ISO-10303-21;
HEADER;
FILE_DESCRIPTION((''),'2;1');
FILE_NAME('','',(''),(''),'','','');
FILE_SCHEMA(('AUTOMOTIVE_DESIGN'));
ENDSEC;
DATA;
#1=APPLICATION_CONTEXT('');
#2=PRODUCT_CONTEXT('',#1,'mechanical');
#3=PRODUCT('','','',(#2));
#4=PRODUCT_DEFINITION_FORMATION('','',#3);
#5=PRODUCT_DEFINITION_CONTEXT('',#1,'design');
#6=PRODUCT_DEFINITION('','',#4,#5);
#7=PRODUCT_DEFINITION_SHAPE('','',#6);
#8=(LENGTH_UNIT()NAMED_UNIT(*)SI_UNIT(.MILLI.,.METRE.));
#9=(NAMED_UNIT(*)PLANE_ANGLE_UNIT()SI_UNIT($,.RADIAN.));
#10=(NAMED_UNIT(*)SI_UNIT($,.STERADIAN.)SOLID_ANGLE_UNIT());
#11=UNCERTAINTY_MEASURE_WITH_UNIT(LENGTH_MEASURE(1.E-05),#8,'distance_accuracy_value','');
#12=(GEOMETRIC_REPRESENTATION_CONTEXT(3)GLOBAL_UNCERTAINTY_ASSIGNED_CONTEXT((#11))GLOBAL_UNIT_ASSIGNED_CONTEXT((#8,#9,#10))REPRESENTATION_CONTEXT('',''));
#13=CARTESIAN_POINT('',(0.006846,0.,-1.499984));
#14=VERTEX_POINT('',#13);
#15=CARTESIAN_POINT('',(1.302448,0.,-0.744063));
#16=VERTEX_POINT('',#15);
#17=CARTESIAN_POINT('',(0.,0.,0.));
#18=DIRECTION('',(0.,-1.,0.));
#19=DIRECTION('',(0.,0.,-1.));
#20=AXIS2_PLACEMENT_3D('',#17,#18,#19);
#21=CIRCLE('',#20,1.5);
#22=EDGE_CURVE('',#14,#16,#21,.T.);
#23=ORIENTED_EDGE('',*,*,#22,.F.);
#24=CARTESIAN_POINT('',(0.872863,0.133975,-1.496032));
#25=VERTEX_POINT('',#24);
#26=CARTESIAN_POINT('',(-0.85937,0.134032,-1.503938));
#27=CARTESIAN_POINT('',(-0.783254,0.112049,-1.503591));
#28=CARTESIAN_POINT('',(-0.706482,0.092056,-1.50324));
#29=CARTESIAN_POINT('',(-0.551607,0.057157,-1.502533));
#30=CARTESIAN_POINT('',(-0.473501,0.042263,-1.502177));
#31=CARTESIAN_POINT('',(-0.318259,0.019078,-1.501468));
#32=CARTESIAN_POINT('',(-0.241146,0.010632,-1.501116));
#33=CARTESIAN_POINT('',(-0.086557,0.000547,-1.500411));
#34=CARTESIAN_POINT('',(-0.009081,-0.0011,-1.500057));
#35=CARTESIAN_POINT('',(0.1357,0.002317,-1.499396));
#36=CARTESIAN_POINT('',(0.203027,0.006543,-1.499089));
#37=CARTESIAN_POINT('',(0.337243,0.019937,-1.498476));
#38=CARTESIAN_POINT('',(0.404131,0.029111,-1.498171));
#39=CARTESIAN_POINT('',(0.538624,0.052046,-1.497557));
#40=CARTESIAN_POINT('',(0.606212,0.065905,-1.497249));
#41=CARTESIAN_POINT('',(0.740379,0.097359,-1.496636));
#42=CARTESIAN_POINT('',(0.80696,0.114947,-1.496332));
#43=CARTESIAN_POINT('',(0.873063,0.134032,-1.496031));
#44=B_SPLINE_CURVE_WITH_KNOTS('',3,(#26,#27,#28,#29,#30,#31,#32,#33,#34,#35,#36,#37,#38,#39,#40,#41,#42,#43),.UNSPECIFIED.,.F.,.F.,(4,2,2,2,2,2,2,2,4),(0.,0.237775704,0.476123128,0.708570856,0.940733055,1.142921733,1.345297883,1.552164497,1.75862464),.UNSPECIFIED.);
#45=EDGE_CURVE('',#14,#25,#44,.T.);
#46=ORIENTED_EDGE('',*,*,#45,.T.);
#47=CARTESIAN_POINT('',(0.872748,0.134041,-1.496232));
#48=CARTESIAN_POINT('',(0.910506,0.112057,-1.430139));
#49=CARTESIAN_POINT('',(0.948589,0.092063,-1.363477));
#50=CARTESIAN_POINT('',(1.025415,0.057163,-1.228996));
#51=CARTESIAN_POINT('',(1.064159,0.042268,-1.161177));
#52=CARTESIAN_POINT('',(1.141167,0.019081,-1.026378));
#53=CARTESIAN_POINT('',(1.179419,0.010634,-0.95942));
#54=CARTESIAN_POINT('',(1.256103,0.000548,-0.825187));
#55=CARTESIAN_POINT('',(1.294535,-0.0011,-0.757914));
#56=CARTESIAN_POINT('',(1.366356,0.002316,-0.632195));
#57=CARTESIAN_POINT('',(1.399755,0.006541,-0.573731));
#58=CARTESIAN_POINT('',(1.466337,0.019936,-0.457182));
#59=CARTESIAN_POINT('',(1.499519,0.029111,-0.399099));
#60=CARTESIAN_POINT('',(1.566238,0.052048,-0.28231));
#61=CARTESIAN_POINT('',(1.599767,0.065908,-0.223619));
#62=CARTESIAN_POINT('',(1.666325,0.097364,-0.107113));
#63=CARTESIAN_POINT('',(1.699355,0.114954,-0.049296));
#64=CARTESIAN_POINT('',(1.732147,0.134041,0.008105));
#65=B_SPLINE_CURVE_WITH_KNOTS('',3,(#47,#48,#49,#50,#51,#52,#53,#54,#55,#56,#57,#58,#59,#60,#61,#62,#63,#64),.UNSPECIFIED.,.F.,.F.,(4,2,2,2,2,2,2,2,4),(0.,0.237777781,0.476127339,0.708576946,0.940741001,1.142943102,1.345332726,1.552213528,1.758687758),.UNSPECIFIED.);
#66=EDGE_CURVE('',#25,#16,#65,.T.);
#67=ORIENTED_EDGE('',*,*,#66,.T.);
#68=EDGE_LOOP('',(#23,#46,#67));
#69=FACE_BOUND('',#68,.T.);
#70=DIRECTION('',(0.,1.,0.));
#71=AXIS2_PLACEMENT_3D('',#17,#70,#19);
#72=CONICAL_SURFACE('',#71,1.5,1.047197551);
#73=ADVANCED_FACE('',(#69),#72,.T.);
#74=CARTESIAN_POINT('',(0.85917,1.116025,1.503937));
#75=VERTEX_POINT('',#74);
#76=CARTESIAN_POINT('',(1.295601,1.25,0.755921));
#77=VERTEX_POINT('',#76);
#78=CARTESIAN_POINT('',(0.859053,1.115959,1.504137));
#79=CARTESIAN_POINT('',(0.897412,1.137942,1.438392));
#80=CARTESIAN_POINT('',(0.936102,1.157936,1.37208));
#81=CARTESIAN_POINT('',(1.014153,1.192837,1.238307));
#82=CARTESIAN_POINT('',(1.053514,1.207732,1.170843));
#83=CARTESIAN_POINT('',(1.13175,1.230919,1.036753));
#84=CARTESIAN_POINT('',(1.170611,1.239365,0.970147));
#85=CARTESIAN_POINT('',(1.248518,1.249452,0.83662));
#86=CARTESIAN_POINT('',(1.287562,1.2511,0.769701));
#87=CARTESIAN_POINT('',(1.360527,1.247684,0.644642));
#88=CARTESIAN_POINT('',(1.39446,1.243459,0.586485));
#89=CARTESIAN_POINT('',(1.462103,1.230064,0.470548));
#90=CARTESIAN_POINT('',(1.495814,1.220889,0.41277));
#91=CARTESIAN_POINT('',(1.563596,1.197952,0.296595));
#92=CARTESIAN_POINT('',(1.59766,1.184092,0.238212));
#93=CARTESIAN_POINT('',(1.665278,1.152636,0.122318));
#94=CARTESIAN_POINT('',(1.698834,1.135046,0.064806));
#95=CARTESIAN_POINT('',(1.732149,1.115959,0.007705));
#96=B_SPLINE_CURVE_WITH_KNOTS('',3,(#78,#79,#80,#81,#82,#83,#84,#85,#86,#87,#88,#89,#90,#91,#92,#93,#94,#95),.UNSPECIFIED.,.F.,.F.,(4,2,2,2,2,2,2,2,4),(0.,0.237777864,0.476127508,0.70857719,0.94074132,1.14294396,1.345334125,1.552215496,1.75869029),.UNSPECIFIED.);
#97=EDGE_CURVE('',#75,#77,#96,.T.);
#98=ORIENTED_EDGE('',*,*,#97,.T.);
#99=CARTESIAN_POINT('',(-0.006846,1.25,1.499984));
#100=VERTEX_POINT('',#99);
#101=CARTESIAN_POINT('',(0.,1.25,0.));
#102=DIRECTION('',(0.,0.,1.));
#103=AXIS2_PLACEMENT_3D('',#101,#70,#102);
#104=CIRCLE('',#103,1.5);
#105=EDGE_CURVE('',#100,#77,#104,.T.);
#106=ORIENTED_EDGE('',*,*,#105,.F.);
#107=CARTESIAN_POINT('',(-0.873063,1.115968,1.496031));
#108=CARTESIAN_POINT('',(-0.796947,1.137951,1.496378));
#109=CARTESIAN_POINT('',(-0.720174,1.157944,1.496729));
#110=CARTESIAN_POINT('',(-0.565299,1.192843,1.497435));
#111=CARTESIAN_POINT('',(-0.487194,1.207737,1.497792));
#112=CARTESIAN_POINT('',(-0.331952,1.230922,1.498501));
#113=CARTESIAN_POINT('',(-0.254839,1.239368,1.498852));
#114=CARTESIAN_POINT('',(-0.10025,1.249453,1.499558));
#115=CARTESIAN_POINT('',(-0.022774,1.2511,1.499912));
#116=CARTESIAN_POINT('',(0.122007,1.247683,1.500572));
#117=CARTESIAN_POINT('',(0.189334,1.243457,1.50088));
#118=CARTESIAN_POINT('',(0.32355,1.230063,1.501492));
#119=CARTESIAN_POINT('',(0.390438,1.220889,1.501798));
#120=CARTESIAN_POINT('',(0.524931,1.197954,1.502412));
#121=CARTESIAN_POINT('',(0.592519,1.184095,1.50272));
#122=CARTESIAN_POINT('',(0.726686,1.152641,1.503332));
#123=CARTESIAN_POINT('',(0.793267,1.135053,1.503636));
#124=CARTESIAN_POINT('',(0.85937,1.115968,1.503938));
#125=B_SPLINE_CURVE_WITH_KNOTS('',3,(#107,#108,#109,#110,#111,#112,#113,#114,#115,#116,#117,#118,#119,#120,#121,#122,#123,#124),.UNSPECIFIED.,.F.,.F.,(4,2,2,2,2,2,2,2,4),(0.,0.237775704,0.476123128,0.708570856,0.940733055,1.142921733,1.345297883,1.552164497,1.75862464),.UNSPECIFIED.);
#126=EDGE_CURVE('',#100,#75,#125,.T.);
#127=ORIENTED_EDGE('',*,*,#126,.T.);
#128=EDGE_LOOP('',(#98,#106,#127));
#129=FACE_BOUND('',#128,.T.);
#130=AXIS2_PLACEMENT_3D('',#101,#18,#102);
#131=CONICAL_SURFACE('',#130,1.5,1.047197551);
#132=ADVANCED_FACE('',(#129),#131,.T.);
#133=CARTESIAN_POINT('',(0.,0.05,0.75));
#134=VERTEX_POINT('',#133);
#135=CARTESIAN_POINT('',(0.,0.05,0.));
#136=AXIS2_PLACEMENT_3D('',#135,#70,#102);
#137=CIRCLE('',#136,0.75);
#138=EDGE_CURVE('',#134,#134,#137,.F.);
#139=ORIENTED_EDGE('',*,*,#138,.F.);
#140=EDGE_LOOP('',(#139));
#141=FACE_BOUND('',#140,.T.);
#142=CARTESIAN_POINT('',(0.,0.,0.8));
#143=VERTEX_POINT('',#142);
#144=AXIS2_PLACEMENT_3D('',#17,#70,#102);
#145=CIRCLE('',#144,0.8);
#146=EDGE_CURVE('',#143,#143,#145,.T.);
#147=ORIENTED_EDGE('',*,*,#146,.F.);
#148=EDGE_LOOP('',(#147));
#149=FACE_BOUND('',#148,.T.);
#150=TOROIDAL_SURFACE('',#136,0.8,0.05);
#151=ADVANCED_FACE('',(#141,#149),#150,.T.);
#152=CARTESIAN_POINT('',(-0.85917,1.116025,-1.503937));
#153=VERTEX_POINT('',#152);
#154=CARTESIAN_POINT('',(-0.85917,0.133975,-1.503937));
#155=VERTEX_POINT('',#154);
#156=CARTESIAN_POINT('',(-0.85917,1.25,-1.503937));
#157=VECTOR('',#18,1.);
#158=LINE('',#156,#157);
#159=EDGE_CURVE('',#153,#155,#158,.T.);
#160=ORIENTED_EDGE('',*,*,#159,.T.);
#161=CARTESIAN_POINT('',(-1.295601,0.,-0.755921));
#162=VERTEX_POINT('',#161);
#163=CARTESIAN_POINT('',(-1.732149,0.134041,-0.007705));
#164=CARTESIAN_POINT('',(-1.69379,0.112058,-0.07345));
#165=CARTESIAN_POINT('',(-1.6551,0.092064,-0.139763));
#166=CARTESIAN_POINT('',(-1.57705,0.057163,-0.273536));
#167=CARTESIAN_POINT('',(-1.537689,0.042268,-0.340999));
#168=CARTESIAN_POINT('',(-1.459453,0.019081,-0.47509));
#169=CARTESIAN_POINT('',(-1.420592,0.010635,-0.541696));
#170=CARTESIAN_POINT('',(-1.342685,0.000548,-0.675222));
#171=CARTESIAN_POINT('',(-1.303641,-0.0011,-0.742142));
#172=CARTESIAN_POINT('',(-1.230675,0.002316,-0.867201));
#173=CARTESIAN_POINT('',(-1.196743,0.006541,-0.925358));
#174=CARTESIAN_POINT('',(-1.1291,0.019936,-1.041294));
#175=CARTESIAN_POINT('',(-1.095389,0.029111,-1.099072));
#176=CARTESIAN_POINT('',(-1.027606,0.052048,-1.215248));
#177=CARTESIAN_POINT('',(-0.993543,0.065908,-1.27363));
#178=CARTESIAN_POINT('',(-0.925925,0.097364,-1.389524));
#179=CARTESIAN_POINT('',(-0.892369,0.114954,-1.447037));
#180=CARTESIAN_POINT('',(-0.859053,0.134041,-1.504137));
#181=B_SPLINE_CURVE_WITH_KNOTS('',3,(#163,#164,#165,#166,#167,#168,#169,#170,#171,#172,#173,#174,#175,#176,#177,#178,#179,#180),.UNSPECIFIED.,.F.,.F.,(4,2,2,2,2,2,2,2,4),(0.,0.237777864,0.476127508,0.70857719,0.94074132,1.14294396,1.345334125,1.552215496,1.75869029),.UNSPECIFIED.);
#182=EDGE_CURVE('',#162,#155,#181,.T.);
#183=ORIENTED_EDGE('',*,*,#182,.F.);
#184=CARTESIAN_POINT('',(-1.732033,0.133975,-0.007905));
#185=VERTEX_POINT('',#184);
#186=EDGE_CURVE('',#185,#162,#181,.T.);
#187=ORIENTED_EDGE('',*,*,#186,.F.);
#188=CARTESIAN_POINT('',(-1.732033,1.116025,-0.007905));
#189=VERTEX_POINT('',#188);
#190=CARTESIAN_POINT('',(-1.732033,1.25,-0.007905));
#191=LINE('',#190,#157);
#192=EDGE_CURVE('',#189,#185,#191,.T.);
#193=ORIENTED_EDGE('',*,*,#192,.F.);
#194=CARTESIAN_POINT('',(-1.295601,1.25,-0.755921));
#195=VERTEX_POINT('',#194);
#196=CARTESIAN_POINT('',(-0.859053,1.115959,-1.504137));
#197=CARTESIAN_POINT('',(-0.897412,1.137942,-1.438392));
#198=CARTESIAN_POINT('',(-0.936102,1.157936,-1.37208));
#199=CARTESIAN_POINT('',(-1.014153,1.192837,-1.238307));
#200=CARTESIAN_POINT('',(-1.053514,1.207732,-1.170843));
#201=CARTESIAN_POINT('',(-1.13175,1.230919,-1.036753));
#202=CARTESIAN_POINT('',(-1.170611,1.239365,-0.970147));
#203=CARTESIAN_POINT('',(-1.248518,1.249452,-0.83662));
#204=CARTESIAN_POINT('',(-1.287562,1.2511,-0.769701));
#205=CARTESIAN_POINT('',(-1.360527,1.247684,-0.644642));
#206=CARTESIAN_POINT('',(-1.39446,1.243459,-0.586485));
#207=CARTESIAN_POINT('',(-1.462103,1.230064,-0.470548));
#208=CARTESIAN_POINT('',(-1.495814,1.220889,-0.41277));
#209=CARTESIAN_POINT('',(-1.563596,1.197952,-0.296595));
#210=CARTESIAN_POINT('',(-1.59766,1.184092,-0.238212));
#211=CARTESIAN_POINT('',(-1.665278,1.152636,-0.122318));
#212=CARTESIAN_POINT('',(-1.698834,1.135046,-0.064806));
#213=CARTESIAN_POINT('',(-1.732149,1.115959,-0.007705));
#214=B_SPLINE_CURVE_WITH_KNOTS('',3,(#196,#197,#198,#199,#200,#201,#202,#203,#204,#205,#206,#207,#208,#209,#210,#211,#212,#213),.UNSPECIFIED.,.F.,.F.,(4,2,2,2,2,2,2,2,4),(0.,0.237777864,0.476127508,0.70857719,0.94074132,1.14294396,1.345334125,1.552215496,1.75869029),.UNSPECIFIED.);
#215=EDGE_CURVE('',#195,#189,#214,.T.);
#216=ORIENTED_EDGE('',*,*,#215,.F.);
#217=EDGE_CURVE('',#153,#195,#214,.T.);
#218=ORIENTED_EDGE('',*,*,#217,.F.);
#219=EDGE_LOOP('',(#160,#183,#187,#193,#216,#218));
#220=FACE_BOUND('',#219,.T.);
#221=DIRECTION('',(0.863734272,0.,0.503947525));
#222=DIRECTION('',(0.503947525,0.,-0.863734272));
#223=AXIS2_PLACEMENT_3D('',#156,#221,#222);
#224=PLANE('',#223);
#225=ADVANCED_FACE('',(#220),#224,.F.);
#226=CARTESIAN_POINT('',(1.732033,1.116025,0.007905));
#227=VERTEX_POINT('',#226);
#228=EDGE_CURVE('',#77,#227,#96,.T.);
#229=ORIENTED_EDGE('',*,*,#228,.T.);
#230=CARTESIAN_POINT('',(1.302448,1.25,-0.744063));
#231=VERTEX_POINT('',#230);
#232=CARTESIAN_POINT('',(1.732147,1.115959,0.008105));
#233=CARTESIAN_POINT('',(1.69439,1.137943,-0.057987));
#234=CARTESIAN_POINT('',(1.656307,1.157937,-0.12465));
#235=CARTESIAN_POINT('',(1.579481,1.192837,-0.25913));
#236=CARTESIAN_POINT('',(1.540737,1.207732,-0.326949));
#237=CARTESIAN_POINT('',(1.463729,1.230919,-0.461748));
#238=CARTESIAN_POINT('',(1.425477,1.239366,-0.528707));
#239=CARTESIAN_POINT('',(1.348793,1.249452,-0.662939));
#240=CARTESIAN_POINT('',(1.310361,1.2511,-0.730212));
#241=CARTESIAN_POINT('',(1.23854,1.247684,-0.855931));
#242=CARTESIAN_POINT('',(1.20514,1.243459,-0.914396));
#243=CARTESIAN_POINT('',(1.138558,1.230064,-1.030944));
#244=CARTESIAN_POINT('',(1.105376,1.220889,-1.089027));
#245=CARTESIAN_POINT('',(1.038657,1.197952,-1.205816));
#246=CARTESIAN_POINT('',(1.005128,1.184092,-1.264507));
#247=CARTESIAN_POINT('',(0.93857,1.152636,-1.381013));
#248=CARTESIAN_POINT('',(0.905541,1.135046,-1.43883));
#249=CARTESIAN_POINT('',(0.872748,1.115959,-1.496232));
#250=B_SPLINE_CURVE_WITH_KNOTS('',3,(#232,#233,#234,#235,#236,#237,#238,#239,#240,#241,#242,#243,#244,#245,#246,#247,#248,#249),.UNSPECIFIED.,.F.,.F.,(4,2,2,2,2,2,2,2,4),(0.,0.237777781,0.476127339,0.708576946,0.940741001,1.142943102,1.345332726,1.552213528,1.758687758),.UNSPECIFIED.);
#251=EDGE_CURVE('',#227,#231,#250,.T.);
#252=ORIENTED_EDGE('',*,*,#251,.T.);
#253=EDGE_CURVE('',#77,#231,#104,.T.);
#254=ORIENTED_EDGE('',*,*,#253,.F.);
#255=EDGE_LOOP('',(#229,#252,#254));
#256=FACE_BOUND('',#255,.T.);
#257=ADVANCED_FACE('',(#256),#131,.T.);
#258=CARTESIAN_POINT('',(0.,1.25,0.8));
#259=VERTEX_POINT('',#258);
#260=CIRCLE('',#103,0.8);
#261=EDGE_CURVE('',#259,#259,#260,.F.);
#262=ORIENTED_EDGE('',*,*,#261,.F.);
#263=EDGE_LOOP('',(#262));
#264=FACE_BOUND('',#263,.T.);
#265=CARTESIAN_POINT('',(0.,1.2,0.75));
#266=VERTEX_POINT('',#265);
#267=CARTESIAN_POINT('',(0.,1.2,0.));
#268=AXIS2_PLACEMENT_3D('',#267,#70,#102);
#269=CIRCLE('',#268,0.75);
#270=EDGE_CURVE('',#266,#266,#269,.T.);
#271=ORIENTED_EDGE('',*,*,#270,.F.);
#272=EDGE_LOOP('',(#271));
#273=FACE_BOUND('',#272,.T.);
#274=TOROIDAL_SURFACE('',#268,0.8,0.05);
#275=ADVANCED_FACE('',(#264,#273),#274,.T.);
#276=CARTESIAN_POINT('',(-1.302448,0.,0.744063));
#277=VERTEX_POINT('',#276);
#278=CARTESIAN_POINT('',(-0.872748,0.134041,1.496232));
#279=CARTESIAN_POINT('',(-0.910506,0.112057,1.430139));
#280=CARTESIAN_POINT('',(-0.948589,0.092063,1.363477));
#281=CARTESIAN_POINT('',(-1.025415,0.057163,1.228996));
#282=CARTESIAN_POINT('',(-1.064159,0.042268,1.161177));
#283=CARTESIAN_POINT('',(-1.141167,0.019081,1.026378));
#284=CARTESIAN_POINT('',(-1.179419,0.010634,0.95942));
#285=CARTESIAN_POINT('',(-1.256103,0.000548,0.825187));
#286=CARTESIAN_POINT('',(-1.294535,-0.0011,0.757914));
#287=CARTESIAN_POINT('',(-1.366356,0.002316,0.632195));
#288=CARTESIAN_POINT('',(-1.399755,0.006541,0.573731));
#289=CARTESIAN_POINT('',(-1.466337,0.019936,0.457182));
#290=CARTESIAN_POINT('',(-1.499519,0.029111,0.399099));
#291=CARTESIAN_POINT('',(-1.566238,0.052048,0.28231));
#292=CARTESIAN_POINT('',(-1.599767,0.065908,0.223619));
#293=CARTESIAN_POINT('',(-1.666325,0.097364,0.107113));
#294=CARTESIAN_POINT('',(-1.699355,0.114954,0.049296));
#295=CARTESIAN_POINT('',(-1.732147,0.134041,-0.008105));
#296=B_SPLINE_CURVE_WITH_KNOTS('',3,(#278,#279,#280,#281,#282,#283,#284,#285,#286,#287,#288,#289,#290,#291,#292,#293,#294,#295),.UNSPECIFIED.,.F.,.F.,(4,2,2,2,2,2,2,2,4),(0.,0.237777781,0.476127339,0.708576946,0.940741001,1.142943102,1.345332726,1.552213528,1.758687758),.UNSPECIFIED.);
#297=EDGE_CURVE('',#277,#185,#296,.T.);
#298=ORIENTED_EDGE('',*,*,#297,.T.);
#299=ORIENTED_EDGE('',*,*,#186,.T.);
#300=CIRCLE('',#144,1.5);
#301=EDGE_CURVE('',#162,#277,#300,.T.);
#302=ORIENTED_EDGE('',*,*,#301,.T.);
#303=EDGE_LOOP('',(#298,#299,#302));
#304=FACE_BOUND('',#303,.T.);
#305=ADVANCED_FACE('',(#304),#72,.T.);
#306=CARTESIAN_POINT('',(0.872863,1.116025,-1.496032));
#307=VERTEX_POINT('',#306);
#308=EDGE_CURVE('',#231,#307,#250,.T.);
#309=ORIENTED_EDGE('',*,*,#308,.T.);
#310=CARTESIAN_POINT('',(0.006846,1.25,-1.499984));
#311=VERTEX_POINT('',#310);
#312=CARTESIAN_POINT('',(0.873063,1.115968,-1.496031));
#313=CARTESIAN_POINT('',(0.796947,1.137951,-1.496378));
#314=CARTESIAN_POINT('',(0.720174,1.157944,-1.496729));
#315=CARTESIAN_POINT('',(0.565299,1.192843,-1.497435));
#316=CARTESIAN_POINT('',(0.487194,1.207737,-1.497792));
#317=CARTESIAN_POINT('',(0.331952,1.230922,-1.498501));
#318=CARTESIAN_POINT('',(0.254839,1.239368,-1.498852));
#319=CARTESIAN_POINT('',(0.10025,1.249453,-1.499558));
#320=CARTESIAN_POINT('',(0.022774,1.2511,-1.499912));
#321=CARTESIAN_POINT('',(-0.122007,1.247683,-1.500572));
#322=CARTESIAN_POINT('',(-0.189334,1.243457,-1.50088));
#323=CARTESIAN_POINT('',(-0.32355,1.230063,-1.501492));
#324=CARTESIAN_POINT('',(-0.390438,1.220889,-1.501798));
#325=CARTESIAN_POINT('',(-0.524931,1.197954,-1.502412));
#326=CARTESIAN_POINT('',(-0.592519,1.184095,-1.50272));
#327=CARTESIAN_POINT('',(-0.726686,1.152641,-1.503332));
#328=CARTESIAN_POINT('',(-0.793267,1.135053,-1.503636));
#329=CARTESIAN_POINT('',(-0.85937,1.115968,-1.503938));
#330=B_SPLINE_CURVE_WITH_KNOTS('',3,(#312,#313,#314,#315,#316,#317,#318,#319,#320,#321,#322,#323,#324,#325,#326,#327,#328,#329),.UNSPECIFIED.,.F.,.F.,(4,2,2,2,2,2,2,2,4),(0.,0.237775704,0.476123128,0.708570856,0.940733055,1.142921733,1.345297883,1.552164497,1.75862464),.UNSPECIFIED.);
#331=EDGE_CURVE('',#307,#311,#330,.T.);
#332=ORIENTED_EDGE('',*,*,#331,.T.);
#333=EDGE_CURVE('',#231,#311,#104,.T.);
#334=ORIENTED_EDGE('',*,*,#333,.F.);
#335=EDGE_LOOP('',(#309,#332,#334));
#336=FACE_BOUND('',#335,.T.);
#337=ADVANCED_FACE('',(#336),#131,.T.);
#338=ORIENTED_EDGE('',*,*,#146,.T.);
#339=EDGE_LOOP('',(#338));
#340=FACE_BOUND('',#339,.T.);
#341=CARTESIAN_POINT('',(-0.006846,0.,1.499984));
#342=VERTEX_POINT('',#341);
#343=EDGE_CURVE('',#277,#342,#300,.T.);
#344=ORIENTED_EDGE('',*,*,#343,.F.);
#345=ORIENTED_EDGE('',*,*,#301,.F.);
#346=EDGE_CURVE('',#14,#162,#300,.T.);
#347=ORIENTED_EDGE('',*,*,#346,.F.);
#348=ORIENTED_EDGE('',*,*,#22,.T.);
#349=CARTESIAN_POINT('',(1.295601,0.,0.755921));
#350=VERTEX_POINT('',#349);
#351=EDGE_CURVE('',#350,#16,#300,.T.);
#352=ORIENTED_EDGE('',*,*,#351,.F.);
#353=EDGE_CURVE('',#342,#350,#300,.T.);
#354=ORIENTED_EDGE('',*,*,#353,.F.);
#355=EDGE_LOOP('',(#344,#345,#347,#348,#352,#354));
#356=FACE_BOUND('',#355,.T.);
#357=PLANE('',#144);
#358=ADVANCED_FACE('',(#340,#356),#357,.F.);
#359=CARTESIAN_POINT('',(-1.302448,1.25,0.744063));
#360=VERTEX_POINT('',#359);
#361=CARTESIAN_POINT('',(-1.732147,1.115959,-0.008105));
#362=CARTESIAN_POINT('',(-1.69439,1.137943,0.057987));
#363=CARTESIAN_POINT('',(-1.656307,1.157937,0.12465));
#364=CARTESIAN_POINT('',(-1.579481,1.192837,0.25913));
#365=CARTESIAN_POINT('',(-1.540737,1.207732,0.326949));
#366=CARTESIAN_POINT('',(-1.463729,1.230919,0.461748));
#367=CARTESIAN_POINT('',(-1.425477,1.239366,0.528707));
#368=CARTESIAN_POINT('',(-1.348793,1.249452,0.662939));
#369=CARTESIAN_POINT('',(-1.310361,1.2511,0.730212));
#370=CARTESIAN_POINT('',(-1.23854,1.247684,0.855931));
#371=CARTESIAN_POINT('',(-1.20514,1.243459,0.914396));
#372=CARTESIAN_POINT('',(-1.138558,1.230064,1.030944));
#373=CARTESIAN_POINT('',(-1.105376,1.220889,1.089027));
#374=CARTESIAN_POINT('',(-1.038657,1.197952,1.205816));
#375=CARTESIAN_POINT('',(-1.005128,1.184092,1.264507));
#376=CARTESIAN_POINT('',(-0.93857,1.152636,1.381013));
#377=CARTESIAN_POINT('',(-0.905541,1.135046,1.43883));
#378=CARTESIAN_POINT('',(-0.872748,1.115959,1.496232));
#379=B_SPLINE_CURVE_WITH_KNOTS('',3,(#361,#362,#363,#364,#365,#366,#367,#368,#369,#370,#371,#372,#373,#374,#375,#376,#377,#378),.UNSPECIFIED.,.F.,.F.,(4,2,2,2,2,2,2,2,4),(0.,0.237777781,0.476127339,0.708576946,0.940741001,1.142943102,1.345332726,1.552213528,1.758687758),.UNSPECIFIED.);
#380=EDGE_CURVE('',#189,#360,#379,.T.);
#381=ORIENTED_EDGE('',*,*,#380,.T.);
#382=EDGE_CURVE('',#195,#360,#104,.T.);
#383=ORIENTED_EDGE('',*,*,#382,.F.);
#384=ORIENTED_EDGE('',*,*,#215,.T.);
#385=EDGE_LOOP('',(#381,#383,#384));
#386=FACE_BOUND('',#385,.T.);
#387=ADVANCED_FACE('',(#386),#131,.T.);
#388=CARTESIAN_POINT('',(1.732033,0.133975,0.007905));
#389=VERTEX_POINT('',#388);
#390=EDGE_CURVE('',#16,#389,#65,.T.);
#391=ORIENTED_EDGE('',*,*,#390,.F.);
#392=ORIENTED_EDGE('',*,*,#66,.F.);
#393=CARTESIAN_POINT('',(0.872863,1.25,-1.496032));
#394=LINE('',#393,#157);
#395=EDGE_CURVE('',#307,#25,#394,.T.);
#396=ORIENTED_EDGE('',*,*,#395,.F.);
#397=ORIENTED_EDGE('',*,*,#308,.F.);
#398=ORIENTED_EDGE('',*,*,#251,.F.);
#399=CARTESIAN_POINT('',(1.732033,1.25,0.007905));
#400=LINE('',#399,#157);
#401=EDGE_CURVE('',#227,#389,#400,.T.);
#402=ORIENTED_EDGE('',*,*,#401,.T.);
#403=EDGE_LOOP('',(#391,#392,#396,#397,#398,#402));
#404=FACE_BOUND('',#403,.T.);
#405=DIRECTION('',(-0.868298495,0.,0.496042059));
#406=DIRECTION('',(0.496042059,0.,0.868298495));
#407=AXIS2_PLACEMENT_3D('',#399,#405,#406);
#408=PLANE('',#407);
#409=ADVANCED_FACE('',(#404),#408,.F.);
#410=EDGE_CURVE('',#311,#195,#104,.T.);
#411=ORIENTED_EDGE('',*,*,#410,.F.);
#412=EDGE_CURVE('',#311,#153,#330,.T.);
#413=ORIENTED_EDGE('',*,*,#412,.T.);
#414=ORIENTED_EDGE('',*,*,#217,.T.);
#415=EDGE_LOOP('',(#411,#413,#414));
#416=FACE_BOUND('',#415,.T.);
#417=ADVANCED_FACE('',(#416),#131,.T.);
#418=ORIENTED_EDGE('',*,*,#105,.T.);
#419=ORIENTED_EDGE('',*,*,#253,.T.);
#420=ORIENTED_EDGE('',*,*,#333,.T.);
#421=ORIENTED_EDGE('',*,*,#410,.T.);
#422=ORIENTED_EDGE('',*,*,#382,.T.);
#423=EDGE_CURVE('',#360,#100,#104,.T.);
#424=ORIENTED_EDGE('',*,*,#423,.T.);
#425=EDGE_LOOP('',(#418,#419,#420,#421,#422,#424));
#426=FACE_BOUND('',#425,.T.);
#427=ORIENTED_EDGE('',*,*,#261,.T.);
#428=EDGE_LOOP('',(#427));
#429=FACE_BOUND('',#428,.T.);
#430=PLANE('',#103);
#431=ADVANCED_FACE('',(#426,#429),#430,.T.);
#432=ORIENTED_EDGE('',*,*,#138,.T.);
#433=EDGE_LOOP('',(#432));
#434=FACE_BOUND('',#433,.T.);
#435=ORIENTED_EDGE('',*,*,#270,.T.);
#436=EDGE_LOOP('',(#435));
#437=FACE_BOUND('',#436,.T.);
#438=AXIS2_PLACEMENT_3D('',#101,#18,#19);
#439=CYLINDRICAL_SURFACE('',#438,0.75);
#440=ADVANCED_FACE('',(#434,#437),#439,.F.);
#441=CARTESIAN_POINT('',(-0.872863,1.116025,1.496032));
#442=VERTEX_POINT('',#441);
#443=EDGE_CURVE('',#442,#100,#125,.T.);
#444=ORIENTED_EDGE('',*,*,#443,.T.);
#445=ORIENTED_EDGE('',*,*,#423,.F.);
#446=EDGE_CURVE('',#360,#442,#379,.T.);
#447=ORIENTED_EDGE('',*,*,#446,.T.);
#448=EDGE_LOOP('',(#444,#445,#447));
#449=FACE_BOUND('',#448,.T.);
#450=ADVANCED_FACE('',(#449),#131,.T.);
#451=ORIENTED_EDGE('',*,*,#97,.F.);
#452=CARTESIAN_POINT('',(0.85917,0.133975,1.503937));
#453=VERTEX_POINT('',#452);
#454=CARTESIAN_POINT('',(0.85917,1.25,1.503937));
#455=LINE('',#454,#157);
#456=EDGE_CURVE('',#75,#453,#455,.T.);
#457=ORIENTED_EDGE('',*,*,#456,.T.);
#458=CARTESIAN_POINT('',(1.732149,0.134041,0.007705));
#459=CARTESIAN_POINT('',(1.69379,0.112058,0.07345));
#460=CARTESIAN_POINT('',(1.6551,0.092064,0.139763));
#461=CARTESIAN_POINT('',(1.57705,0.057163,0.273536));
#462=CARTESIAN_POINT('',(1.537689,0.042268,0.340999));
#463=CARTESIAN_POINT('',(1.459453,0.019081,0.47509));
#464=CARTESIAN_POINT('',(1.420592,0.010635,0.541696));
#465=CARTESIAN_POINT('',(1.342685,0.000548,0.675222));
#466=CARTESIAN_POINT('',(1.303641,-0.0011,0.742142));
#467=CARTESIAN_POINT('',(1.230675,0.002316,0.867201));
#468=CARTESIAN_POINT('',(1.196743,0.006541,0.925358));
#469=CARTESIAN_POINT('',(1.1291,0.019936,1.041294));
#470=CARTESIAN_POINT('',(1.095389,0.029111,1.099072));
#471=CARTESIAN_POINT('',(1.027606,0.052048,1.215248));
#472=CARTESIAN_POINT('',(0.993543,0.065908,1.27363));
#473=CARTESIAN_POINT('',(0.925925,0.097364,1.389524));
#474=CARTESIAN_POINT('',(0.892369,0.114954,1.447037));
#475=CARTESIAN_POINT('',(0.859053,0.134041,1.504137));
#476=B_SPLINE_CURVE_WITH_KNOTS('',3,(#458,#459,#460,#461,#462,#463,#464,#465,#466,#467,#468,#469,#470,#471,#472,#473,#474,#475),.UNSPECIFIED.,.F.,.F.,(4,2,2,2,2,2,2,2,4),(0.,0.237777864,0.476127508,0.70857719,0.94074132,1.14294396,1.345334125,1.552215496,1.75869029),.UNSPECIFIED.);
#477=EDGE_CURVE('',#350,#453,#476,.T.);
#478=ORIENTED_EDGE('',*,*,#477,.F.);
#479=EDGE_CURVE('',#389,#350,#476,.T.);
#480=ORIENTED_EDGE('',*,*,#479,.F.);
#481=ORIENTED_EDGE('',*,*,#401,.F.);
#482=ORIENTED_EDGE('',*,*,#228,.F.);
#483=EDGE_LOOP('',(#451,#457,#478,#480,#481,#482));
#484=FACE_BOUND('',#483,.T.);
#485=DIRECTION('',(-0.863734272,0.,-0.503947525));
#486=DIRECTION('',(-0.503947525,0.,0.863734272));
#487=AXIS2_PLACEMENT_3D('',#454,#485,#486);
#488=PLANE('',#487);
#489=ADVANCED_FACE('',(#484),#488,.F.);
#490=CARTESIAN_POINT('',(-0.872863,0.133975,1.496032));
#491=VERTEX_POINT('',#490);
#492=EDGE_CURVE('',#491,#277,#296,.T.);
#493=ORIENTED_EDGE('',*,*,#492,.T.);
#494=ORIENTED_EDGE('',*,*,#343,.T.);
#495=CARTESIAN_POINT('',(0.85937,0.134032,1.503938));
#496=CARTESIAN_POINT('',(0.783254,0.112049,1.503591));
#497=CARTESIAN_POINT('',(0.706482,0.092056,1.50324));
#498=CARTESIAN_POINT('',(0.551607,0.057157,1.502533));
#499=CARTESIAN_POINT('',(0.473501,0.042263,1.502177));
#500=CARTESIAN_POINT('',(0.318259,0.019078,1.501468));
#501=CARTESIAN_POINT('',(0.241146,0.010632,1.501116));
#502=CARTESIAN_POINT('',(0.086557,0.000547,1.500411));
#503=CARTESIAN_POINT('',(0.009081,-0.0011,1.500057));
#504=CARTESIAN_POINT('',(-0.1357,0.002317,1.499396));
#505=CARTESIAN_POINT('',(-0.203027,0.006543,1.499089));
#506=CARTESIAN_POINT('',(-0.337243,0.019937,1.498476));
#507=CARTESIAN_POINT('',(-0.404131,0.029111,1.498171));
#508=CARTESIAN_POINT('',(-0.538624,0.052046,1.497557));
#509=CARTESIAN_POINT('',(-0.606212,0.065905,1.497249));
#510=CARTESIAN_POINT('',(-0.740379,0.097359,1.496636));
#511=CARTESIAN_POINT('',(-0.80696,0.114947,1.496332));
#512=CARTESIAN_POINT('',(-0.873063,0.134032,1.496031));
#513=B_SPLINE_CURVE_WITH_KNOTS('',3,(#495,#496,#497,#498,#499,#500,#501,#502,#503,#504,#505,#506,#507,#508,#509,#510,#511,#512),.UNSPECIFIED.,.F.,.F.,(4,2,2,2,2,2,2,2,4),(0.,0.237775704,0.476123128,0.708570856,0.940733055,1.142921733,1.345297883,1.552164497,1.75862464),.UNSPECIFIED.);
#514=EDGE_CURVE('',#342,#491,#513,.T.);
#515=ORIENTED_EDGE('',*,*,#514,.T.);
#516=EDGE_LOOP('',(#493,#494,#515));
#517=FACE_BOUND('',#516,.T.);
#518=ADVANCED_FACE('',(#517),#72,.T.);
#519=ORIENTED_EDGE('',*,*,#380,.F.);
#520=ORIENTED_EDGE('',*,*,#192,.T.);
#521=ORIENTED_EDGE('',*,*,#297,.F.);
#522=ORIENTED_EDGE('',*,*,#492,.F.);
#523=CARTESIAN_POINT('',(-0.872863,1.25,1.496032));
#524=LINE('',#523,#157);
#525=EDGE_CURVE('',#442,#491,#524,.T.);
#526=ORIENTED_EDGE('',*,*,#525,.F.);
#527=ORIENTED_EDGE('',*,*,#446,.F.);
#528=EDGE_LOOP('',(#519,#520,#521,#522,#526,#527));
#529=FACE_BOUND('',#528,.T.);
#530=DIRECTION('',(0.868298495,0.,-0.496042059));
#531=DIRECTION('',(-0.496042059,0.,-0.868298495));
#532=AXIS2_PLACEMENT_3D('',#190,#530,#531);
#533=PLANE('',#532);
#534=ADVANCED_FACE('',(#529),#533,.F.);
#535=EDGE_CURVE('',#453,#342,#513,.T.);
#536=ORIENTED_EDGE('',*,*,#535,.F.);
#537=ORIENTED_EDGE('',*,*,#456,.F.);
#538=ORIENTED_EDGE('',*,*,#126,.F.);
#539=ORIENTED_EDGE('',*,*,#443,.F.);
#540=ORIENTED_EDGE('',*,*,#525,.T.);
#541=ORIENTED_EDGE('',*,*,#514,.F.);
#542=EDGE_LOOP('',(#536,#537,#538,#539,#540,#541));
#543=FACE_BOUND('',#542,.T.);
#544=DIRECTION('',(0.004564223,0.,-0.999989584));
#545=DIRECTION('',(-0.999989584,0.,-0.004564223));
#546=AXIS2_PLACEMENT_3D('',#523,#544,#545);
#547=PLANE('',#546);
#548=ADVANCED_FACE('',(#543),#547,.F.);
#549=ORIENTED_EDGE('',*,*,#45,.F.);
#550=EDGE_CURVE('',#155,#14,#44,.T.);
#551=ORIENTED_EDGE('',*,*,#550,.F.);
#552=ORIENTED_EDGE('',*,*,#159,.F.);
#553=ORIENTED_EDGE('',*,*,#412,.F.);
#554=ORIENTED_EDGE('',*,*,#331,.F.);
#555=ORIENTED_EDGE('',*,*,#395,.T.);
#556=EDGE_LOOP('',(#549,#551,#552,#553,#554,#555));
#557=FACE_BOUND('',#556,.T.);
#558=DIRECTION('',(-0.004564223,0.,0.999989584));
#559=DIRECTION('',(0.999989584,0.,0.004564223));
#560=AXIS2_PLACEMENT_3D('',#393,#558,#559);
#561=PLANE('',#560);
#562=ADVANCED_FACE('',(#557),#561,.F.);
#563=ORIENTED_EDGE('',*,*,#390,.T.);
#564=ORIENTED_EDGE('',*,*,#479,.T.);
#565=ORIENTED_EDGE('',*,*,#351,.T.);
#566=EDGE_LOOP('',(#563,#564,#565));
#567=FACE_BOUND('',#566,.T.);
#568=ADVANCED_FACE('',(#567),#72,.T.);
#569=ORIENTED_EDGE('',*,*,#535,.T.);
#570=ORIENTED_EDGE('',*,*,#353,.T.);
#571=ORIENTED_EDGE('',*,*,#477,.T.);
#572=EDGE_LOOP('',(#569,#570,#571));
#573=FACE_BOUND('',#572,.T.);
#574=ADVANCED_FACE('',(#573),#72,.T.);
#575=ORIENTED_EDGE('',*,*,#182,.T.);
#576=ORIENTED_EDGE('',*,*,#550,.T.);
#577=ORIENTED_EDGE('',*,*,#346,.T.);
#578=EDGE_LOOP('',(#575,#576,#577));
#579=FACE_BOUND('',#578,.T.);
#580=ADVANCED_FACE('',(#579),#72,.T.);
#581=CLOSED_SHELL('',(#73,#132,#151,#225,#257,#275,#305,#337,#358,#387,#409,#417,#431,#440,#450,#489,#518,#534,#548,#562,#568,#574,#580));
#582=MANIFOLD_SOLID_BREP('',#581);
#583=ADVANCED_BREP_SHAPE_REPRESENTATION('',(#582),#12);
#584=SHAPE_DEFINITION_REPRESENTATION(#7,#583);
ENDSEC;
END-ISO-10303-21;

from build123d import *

# Parameters (mm, degrees)
SKETCH1_R           = 0.75
BOSS_EXTRUDE1_DEPTH = 1.25
SKETCH2_OUTSIDE_W   = 9.88
SKETCH2_OUTSIDE_H   = 9.424
SKETCH2_OUTSIDE_R   = 1.5
CUT_EXTRUDE2_DEPTH  = 1
CUT_EXTRUDE2_DRAFT  = -60
SKETCH3_OUTSIDE_W   = 9.88
SKETCH3_OUTSIDE_H   = 9.424
SKETCH3_OUTSIDE_R   = 1.5
CUT_EXTRUDE3_DEPTH  = 1
CUT_EXTRUDE3_DRAFT  = -60
FILLET1_R           = 0.05


with BuildPart() as part:
    # Sketch1 → Boss-Extrude1 (new body)
    with BuildSketch(Plane(origin=(0, 0, 0), x_dir=(1, 0, 0), z_dir=(0, 1, 0))):
        Polygon((0.872862718, 1.496031643), (-0.859170049, 1.503937109), (-1.732032766, 0.007905466), (-0.872862718, -1.496031643), (0.859170049, -1.503937109), (1.732032766, -0.007905466), align=None)
        with Locations(Location((0, 0, 0), (0, 0, 270))):
            Circle(SKETCH1_R, mode=Mode.SUBTRACT)
    extrude(amount=BOSS_EXTRUDE1_DEPTH)


with BuildPart() as cut_extrude2_tool:
    # Sketch2 outside → Cut-Extrude2 (with draft: the straight prism first)
    with BuildSketch(Plane(origin=(0, 1.25, 0), x_dir=(1, 0, 0), z_dir=(0, 1, 0))):
        Rectangle(SKETCH2_OUTSIDE_W, SKETCH2_OUTSIDE_H)
        Circle(SKETCH2_OUTSIDE_R, mode=Mode.SUBTRACT)
    extrude(amount=-CUT_EXTRUDE2_DEPTH)
    # Cut-Extrude2: the draft: its side faces are tilted about the plane it starts from
    cut_extrude2_sides = [cut_extrude2_tool.faces().sort_by_distance(p)[0] for p in [
        (0, 0.75, 4.712),
        (4.94, 0.75, 0),
        (0, 0.75, -4.712),
        (-4.94, 0.75, 0),
        (-1.5, 0.75, 0),
    ]]
    draft(cut_extrude2_sides, Plane(origin=(0, 1.25, 0), x_dir=(1, 0, 0), z_dir=(0, 1, 0)), CUT_EXTRUDE2_DRAFT)


with BuildPart() as part_1:
    add(part.part)

    # Cut-Extrude2: cut by cut_extrude2_tool
    add(cut_extrude2_tool.part, mode=Mode.SUBTRACT)


with BuildPart() as cut_extrude3_tool:
    # Sketch3 outside → Cut-Extrude3 (with draft: the straight prism first)
    with BuildSketch(Plane.XZ):
        Rectangle(SKETCH3_OUTSIDE_W, SKETCH3_OUTSIDE_H)
        Circle(SKETCH3_OUTSIDE_R, mode=Mode.SUBTRACT)
    extrude(amount=-CUT_EXTRUDE3_DEPTH)
    # Cut-Extrude3: the draft: its side faces are tilted about the plane it starts from
    cut_extrude3_sides = [cut_extrude3_tool.faces().sort_by_distance(p)[0] for p in [
        (0, 0.5, -4.712),
        (4.94, 0.5, 0),
        (0, 0.5, 4.712),
        (-4.94, 0.5, 0),
        (-1.5, 0.5, 0),
    ]]
    draft(cut_extrude3_sides, Plane.XZ, CUT_EXTRUDE3_DRAFT)


with BuildPart() as part_2:
    add(part_1.part)

    # Cut-Extrude3: cut by cut_extrude3_tool
    add(cut_extrude3_tool.part, mode=Mode.SUBTRACT)

    # Fillet1
    fillet1_edges = [part_2.edges().sort_by_distance(p)[0] for p in [
        (0, 0, -0.75),
        (0, 1.25, -0.75),
    ]]
    fillet(fillet1_edges, radius=FILLET1_R)


solid = part_2.part
